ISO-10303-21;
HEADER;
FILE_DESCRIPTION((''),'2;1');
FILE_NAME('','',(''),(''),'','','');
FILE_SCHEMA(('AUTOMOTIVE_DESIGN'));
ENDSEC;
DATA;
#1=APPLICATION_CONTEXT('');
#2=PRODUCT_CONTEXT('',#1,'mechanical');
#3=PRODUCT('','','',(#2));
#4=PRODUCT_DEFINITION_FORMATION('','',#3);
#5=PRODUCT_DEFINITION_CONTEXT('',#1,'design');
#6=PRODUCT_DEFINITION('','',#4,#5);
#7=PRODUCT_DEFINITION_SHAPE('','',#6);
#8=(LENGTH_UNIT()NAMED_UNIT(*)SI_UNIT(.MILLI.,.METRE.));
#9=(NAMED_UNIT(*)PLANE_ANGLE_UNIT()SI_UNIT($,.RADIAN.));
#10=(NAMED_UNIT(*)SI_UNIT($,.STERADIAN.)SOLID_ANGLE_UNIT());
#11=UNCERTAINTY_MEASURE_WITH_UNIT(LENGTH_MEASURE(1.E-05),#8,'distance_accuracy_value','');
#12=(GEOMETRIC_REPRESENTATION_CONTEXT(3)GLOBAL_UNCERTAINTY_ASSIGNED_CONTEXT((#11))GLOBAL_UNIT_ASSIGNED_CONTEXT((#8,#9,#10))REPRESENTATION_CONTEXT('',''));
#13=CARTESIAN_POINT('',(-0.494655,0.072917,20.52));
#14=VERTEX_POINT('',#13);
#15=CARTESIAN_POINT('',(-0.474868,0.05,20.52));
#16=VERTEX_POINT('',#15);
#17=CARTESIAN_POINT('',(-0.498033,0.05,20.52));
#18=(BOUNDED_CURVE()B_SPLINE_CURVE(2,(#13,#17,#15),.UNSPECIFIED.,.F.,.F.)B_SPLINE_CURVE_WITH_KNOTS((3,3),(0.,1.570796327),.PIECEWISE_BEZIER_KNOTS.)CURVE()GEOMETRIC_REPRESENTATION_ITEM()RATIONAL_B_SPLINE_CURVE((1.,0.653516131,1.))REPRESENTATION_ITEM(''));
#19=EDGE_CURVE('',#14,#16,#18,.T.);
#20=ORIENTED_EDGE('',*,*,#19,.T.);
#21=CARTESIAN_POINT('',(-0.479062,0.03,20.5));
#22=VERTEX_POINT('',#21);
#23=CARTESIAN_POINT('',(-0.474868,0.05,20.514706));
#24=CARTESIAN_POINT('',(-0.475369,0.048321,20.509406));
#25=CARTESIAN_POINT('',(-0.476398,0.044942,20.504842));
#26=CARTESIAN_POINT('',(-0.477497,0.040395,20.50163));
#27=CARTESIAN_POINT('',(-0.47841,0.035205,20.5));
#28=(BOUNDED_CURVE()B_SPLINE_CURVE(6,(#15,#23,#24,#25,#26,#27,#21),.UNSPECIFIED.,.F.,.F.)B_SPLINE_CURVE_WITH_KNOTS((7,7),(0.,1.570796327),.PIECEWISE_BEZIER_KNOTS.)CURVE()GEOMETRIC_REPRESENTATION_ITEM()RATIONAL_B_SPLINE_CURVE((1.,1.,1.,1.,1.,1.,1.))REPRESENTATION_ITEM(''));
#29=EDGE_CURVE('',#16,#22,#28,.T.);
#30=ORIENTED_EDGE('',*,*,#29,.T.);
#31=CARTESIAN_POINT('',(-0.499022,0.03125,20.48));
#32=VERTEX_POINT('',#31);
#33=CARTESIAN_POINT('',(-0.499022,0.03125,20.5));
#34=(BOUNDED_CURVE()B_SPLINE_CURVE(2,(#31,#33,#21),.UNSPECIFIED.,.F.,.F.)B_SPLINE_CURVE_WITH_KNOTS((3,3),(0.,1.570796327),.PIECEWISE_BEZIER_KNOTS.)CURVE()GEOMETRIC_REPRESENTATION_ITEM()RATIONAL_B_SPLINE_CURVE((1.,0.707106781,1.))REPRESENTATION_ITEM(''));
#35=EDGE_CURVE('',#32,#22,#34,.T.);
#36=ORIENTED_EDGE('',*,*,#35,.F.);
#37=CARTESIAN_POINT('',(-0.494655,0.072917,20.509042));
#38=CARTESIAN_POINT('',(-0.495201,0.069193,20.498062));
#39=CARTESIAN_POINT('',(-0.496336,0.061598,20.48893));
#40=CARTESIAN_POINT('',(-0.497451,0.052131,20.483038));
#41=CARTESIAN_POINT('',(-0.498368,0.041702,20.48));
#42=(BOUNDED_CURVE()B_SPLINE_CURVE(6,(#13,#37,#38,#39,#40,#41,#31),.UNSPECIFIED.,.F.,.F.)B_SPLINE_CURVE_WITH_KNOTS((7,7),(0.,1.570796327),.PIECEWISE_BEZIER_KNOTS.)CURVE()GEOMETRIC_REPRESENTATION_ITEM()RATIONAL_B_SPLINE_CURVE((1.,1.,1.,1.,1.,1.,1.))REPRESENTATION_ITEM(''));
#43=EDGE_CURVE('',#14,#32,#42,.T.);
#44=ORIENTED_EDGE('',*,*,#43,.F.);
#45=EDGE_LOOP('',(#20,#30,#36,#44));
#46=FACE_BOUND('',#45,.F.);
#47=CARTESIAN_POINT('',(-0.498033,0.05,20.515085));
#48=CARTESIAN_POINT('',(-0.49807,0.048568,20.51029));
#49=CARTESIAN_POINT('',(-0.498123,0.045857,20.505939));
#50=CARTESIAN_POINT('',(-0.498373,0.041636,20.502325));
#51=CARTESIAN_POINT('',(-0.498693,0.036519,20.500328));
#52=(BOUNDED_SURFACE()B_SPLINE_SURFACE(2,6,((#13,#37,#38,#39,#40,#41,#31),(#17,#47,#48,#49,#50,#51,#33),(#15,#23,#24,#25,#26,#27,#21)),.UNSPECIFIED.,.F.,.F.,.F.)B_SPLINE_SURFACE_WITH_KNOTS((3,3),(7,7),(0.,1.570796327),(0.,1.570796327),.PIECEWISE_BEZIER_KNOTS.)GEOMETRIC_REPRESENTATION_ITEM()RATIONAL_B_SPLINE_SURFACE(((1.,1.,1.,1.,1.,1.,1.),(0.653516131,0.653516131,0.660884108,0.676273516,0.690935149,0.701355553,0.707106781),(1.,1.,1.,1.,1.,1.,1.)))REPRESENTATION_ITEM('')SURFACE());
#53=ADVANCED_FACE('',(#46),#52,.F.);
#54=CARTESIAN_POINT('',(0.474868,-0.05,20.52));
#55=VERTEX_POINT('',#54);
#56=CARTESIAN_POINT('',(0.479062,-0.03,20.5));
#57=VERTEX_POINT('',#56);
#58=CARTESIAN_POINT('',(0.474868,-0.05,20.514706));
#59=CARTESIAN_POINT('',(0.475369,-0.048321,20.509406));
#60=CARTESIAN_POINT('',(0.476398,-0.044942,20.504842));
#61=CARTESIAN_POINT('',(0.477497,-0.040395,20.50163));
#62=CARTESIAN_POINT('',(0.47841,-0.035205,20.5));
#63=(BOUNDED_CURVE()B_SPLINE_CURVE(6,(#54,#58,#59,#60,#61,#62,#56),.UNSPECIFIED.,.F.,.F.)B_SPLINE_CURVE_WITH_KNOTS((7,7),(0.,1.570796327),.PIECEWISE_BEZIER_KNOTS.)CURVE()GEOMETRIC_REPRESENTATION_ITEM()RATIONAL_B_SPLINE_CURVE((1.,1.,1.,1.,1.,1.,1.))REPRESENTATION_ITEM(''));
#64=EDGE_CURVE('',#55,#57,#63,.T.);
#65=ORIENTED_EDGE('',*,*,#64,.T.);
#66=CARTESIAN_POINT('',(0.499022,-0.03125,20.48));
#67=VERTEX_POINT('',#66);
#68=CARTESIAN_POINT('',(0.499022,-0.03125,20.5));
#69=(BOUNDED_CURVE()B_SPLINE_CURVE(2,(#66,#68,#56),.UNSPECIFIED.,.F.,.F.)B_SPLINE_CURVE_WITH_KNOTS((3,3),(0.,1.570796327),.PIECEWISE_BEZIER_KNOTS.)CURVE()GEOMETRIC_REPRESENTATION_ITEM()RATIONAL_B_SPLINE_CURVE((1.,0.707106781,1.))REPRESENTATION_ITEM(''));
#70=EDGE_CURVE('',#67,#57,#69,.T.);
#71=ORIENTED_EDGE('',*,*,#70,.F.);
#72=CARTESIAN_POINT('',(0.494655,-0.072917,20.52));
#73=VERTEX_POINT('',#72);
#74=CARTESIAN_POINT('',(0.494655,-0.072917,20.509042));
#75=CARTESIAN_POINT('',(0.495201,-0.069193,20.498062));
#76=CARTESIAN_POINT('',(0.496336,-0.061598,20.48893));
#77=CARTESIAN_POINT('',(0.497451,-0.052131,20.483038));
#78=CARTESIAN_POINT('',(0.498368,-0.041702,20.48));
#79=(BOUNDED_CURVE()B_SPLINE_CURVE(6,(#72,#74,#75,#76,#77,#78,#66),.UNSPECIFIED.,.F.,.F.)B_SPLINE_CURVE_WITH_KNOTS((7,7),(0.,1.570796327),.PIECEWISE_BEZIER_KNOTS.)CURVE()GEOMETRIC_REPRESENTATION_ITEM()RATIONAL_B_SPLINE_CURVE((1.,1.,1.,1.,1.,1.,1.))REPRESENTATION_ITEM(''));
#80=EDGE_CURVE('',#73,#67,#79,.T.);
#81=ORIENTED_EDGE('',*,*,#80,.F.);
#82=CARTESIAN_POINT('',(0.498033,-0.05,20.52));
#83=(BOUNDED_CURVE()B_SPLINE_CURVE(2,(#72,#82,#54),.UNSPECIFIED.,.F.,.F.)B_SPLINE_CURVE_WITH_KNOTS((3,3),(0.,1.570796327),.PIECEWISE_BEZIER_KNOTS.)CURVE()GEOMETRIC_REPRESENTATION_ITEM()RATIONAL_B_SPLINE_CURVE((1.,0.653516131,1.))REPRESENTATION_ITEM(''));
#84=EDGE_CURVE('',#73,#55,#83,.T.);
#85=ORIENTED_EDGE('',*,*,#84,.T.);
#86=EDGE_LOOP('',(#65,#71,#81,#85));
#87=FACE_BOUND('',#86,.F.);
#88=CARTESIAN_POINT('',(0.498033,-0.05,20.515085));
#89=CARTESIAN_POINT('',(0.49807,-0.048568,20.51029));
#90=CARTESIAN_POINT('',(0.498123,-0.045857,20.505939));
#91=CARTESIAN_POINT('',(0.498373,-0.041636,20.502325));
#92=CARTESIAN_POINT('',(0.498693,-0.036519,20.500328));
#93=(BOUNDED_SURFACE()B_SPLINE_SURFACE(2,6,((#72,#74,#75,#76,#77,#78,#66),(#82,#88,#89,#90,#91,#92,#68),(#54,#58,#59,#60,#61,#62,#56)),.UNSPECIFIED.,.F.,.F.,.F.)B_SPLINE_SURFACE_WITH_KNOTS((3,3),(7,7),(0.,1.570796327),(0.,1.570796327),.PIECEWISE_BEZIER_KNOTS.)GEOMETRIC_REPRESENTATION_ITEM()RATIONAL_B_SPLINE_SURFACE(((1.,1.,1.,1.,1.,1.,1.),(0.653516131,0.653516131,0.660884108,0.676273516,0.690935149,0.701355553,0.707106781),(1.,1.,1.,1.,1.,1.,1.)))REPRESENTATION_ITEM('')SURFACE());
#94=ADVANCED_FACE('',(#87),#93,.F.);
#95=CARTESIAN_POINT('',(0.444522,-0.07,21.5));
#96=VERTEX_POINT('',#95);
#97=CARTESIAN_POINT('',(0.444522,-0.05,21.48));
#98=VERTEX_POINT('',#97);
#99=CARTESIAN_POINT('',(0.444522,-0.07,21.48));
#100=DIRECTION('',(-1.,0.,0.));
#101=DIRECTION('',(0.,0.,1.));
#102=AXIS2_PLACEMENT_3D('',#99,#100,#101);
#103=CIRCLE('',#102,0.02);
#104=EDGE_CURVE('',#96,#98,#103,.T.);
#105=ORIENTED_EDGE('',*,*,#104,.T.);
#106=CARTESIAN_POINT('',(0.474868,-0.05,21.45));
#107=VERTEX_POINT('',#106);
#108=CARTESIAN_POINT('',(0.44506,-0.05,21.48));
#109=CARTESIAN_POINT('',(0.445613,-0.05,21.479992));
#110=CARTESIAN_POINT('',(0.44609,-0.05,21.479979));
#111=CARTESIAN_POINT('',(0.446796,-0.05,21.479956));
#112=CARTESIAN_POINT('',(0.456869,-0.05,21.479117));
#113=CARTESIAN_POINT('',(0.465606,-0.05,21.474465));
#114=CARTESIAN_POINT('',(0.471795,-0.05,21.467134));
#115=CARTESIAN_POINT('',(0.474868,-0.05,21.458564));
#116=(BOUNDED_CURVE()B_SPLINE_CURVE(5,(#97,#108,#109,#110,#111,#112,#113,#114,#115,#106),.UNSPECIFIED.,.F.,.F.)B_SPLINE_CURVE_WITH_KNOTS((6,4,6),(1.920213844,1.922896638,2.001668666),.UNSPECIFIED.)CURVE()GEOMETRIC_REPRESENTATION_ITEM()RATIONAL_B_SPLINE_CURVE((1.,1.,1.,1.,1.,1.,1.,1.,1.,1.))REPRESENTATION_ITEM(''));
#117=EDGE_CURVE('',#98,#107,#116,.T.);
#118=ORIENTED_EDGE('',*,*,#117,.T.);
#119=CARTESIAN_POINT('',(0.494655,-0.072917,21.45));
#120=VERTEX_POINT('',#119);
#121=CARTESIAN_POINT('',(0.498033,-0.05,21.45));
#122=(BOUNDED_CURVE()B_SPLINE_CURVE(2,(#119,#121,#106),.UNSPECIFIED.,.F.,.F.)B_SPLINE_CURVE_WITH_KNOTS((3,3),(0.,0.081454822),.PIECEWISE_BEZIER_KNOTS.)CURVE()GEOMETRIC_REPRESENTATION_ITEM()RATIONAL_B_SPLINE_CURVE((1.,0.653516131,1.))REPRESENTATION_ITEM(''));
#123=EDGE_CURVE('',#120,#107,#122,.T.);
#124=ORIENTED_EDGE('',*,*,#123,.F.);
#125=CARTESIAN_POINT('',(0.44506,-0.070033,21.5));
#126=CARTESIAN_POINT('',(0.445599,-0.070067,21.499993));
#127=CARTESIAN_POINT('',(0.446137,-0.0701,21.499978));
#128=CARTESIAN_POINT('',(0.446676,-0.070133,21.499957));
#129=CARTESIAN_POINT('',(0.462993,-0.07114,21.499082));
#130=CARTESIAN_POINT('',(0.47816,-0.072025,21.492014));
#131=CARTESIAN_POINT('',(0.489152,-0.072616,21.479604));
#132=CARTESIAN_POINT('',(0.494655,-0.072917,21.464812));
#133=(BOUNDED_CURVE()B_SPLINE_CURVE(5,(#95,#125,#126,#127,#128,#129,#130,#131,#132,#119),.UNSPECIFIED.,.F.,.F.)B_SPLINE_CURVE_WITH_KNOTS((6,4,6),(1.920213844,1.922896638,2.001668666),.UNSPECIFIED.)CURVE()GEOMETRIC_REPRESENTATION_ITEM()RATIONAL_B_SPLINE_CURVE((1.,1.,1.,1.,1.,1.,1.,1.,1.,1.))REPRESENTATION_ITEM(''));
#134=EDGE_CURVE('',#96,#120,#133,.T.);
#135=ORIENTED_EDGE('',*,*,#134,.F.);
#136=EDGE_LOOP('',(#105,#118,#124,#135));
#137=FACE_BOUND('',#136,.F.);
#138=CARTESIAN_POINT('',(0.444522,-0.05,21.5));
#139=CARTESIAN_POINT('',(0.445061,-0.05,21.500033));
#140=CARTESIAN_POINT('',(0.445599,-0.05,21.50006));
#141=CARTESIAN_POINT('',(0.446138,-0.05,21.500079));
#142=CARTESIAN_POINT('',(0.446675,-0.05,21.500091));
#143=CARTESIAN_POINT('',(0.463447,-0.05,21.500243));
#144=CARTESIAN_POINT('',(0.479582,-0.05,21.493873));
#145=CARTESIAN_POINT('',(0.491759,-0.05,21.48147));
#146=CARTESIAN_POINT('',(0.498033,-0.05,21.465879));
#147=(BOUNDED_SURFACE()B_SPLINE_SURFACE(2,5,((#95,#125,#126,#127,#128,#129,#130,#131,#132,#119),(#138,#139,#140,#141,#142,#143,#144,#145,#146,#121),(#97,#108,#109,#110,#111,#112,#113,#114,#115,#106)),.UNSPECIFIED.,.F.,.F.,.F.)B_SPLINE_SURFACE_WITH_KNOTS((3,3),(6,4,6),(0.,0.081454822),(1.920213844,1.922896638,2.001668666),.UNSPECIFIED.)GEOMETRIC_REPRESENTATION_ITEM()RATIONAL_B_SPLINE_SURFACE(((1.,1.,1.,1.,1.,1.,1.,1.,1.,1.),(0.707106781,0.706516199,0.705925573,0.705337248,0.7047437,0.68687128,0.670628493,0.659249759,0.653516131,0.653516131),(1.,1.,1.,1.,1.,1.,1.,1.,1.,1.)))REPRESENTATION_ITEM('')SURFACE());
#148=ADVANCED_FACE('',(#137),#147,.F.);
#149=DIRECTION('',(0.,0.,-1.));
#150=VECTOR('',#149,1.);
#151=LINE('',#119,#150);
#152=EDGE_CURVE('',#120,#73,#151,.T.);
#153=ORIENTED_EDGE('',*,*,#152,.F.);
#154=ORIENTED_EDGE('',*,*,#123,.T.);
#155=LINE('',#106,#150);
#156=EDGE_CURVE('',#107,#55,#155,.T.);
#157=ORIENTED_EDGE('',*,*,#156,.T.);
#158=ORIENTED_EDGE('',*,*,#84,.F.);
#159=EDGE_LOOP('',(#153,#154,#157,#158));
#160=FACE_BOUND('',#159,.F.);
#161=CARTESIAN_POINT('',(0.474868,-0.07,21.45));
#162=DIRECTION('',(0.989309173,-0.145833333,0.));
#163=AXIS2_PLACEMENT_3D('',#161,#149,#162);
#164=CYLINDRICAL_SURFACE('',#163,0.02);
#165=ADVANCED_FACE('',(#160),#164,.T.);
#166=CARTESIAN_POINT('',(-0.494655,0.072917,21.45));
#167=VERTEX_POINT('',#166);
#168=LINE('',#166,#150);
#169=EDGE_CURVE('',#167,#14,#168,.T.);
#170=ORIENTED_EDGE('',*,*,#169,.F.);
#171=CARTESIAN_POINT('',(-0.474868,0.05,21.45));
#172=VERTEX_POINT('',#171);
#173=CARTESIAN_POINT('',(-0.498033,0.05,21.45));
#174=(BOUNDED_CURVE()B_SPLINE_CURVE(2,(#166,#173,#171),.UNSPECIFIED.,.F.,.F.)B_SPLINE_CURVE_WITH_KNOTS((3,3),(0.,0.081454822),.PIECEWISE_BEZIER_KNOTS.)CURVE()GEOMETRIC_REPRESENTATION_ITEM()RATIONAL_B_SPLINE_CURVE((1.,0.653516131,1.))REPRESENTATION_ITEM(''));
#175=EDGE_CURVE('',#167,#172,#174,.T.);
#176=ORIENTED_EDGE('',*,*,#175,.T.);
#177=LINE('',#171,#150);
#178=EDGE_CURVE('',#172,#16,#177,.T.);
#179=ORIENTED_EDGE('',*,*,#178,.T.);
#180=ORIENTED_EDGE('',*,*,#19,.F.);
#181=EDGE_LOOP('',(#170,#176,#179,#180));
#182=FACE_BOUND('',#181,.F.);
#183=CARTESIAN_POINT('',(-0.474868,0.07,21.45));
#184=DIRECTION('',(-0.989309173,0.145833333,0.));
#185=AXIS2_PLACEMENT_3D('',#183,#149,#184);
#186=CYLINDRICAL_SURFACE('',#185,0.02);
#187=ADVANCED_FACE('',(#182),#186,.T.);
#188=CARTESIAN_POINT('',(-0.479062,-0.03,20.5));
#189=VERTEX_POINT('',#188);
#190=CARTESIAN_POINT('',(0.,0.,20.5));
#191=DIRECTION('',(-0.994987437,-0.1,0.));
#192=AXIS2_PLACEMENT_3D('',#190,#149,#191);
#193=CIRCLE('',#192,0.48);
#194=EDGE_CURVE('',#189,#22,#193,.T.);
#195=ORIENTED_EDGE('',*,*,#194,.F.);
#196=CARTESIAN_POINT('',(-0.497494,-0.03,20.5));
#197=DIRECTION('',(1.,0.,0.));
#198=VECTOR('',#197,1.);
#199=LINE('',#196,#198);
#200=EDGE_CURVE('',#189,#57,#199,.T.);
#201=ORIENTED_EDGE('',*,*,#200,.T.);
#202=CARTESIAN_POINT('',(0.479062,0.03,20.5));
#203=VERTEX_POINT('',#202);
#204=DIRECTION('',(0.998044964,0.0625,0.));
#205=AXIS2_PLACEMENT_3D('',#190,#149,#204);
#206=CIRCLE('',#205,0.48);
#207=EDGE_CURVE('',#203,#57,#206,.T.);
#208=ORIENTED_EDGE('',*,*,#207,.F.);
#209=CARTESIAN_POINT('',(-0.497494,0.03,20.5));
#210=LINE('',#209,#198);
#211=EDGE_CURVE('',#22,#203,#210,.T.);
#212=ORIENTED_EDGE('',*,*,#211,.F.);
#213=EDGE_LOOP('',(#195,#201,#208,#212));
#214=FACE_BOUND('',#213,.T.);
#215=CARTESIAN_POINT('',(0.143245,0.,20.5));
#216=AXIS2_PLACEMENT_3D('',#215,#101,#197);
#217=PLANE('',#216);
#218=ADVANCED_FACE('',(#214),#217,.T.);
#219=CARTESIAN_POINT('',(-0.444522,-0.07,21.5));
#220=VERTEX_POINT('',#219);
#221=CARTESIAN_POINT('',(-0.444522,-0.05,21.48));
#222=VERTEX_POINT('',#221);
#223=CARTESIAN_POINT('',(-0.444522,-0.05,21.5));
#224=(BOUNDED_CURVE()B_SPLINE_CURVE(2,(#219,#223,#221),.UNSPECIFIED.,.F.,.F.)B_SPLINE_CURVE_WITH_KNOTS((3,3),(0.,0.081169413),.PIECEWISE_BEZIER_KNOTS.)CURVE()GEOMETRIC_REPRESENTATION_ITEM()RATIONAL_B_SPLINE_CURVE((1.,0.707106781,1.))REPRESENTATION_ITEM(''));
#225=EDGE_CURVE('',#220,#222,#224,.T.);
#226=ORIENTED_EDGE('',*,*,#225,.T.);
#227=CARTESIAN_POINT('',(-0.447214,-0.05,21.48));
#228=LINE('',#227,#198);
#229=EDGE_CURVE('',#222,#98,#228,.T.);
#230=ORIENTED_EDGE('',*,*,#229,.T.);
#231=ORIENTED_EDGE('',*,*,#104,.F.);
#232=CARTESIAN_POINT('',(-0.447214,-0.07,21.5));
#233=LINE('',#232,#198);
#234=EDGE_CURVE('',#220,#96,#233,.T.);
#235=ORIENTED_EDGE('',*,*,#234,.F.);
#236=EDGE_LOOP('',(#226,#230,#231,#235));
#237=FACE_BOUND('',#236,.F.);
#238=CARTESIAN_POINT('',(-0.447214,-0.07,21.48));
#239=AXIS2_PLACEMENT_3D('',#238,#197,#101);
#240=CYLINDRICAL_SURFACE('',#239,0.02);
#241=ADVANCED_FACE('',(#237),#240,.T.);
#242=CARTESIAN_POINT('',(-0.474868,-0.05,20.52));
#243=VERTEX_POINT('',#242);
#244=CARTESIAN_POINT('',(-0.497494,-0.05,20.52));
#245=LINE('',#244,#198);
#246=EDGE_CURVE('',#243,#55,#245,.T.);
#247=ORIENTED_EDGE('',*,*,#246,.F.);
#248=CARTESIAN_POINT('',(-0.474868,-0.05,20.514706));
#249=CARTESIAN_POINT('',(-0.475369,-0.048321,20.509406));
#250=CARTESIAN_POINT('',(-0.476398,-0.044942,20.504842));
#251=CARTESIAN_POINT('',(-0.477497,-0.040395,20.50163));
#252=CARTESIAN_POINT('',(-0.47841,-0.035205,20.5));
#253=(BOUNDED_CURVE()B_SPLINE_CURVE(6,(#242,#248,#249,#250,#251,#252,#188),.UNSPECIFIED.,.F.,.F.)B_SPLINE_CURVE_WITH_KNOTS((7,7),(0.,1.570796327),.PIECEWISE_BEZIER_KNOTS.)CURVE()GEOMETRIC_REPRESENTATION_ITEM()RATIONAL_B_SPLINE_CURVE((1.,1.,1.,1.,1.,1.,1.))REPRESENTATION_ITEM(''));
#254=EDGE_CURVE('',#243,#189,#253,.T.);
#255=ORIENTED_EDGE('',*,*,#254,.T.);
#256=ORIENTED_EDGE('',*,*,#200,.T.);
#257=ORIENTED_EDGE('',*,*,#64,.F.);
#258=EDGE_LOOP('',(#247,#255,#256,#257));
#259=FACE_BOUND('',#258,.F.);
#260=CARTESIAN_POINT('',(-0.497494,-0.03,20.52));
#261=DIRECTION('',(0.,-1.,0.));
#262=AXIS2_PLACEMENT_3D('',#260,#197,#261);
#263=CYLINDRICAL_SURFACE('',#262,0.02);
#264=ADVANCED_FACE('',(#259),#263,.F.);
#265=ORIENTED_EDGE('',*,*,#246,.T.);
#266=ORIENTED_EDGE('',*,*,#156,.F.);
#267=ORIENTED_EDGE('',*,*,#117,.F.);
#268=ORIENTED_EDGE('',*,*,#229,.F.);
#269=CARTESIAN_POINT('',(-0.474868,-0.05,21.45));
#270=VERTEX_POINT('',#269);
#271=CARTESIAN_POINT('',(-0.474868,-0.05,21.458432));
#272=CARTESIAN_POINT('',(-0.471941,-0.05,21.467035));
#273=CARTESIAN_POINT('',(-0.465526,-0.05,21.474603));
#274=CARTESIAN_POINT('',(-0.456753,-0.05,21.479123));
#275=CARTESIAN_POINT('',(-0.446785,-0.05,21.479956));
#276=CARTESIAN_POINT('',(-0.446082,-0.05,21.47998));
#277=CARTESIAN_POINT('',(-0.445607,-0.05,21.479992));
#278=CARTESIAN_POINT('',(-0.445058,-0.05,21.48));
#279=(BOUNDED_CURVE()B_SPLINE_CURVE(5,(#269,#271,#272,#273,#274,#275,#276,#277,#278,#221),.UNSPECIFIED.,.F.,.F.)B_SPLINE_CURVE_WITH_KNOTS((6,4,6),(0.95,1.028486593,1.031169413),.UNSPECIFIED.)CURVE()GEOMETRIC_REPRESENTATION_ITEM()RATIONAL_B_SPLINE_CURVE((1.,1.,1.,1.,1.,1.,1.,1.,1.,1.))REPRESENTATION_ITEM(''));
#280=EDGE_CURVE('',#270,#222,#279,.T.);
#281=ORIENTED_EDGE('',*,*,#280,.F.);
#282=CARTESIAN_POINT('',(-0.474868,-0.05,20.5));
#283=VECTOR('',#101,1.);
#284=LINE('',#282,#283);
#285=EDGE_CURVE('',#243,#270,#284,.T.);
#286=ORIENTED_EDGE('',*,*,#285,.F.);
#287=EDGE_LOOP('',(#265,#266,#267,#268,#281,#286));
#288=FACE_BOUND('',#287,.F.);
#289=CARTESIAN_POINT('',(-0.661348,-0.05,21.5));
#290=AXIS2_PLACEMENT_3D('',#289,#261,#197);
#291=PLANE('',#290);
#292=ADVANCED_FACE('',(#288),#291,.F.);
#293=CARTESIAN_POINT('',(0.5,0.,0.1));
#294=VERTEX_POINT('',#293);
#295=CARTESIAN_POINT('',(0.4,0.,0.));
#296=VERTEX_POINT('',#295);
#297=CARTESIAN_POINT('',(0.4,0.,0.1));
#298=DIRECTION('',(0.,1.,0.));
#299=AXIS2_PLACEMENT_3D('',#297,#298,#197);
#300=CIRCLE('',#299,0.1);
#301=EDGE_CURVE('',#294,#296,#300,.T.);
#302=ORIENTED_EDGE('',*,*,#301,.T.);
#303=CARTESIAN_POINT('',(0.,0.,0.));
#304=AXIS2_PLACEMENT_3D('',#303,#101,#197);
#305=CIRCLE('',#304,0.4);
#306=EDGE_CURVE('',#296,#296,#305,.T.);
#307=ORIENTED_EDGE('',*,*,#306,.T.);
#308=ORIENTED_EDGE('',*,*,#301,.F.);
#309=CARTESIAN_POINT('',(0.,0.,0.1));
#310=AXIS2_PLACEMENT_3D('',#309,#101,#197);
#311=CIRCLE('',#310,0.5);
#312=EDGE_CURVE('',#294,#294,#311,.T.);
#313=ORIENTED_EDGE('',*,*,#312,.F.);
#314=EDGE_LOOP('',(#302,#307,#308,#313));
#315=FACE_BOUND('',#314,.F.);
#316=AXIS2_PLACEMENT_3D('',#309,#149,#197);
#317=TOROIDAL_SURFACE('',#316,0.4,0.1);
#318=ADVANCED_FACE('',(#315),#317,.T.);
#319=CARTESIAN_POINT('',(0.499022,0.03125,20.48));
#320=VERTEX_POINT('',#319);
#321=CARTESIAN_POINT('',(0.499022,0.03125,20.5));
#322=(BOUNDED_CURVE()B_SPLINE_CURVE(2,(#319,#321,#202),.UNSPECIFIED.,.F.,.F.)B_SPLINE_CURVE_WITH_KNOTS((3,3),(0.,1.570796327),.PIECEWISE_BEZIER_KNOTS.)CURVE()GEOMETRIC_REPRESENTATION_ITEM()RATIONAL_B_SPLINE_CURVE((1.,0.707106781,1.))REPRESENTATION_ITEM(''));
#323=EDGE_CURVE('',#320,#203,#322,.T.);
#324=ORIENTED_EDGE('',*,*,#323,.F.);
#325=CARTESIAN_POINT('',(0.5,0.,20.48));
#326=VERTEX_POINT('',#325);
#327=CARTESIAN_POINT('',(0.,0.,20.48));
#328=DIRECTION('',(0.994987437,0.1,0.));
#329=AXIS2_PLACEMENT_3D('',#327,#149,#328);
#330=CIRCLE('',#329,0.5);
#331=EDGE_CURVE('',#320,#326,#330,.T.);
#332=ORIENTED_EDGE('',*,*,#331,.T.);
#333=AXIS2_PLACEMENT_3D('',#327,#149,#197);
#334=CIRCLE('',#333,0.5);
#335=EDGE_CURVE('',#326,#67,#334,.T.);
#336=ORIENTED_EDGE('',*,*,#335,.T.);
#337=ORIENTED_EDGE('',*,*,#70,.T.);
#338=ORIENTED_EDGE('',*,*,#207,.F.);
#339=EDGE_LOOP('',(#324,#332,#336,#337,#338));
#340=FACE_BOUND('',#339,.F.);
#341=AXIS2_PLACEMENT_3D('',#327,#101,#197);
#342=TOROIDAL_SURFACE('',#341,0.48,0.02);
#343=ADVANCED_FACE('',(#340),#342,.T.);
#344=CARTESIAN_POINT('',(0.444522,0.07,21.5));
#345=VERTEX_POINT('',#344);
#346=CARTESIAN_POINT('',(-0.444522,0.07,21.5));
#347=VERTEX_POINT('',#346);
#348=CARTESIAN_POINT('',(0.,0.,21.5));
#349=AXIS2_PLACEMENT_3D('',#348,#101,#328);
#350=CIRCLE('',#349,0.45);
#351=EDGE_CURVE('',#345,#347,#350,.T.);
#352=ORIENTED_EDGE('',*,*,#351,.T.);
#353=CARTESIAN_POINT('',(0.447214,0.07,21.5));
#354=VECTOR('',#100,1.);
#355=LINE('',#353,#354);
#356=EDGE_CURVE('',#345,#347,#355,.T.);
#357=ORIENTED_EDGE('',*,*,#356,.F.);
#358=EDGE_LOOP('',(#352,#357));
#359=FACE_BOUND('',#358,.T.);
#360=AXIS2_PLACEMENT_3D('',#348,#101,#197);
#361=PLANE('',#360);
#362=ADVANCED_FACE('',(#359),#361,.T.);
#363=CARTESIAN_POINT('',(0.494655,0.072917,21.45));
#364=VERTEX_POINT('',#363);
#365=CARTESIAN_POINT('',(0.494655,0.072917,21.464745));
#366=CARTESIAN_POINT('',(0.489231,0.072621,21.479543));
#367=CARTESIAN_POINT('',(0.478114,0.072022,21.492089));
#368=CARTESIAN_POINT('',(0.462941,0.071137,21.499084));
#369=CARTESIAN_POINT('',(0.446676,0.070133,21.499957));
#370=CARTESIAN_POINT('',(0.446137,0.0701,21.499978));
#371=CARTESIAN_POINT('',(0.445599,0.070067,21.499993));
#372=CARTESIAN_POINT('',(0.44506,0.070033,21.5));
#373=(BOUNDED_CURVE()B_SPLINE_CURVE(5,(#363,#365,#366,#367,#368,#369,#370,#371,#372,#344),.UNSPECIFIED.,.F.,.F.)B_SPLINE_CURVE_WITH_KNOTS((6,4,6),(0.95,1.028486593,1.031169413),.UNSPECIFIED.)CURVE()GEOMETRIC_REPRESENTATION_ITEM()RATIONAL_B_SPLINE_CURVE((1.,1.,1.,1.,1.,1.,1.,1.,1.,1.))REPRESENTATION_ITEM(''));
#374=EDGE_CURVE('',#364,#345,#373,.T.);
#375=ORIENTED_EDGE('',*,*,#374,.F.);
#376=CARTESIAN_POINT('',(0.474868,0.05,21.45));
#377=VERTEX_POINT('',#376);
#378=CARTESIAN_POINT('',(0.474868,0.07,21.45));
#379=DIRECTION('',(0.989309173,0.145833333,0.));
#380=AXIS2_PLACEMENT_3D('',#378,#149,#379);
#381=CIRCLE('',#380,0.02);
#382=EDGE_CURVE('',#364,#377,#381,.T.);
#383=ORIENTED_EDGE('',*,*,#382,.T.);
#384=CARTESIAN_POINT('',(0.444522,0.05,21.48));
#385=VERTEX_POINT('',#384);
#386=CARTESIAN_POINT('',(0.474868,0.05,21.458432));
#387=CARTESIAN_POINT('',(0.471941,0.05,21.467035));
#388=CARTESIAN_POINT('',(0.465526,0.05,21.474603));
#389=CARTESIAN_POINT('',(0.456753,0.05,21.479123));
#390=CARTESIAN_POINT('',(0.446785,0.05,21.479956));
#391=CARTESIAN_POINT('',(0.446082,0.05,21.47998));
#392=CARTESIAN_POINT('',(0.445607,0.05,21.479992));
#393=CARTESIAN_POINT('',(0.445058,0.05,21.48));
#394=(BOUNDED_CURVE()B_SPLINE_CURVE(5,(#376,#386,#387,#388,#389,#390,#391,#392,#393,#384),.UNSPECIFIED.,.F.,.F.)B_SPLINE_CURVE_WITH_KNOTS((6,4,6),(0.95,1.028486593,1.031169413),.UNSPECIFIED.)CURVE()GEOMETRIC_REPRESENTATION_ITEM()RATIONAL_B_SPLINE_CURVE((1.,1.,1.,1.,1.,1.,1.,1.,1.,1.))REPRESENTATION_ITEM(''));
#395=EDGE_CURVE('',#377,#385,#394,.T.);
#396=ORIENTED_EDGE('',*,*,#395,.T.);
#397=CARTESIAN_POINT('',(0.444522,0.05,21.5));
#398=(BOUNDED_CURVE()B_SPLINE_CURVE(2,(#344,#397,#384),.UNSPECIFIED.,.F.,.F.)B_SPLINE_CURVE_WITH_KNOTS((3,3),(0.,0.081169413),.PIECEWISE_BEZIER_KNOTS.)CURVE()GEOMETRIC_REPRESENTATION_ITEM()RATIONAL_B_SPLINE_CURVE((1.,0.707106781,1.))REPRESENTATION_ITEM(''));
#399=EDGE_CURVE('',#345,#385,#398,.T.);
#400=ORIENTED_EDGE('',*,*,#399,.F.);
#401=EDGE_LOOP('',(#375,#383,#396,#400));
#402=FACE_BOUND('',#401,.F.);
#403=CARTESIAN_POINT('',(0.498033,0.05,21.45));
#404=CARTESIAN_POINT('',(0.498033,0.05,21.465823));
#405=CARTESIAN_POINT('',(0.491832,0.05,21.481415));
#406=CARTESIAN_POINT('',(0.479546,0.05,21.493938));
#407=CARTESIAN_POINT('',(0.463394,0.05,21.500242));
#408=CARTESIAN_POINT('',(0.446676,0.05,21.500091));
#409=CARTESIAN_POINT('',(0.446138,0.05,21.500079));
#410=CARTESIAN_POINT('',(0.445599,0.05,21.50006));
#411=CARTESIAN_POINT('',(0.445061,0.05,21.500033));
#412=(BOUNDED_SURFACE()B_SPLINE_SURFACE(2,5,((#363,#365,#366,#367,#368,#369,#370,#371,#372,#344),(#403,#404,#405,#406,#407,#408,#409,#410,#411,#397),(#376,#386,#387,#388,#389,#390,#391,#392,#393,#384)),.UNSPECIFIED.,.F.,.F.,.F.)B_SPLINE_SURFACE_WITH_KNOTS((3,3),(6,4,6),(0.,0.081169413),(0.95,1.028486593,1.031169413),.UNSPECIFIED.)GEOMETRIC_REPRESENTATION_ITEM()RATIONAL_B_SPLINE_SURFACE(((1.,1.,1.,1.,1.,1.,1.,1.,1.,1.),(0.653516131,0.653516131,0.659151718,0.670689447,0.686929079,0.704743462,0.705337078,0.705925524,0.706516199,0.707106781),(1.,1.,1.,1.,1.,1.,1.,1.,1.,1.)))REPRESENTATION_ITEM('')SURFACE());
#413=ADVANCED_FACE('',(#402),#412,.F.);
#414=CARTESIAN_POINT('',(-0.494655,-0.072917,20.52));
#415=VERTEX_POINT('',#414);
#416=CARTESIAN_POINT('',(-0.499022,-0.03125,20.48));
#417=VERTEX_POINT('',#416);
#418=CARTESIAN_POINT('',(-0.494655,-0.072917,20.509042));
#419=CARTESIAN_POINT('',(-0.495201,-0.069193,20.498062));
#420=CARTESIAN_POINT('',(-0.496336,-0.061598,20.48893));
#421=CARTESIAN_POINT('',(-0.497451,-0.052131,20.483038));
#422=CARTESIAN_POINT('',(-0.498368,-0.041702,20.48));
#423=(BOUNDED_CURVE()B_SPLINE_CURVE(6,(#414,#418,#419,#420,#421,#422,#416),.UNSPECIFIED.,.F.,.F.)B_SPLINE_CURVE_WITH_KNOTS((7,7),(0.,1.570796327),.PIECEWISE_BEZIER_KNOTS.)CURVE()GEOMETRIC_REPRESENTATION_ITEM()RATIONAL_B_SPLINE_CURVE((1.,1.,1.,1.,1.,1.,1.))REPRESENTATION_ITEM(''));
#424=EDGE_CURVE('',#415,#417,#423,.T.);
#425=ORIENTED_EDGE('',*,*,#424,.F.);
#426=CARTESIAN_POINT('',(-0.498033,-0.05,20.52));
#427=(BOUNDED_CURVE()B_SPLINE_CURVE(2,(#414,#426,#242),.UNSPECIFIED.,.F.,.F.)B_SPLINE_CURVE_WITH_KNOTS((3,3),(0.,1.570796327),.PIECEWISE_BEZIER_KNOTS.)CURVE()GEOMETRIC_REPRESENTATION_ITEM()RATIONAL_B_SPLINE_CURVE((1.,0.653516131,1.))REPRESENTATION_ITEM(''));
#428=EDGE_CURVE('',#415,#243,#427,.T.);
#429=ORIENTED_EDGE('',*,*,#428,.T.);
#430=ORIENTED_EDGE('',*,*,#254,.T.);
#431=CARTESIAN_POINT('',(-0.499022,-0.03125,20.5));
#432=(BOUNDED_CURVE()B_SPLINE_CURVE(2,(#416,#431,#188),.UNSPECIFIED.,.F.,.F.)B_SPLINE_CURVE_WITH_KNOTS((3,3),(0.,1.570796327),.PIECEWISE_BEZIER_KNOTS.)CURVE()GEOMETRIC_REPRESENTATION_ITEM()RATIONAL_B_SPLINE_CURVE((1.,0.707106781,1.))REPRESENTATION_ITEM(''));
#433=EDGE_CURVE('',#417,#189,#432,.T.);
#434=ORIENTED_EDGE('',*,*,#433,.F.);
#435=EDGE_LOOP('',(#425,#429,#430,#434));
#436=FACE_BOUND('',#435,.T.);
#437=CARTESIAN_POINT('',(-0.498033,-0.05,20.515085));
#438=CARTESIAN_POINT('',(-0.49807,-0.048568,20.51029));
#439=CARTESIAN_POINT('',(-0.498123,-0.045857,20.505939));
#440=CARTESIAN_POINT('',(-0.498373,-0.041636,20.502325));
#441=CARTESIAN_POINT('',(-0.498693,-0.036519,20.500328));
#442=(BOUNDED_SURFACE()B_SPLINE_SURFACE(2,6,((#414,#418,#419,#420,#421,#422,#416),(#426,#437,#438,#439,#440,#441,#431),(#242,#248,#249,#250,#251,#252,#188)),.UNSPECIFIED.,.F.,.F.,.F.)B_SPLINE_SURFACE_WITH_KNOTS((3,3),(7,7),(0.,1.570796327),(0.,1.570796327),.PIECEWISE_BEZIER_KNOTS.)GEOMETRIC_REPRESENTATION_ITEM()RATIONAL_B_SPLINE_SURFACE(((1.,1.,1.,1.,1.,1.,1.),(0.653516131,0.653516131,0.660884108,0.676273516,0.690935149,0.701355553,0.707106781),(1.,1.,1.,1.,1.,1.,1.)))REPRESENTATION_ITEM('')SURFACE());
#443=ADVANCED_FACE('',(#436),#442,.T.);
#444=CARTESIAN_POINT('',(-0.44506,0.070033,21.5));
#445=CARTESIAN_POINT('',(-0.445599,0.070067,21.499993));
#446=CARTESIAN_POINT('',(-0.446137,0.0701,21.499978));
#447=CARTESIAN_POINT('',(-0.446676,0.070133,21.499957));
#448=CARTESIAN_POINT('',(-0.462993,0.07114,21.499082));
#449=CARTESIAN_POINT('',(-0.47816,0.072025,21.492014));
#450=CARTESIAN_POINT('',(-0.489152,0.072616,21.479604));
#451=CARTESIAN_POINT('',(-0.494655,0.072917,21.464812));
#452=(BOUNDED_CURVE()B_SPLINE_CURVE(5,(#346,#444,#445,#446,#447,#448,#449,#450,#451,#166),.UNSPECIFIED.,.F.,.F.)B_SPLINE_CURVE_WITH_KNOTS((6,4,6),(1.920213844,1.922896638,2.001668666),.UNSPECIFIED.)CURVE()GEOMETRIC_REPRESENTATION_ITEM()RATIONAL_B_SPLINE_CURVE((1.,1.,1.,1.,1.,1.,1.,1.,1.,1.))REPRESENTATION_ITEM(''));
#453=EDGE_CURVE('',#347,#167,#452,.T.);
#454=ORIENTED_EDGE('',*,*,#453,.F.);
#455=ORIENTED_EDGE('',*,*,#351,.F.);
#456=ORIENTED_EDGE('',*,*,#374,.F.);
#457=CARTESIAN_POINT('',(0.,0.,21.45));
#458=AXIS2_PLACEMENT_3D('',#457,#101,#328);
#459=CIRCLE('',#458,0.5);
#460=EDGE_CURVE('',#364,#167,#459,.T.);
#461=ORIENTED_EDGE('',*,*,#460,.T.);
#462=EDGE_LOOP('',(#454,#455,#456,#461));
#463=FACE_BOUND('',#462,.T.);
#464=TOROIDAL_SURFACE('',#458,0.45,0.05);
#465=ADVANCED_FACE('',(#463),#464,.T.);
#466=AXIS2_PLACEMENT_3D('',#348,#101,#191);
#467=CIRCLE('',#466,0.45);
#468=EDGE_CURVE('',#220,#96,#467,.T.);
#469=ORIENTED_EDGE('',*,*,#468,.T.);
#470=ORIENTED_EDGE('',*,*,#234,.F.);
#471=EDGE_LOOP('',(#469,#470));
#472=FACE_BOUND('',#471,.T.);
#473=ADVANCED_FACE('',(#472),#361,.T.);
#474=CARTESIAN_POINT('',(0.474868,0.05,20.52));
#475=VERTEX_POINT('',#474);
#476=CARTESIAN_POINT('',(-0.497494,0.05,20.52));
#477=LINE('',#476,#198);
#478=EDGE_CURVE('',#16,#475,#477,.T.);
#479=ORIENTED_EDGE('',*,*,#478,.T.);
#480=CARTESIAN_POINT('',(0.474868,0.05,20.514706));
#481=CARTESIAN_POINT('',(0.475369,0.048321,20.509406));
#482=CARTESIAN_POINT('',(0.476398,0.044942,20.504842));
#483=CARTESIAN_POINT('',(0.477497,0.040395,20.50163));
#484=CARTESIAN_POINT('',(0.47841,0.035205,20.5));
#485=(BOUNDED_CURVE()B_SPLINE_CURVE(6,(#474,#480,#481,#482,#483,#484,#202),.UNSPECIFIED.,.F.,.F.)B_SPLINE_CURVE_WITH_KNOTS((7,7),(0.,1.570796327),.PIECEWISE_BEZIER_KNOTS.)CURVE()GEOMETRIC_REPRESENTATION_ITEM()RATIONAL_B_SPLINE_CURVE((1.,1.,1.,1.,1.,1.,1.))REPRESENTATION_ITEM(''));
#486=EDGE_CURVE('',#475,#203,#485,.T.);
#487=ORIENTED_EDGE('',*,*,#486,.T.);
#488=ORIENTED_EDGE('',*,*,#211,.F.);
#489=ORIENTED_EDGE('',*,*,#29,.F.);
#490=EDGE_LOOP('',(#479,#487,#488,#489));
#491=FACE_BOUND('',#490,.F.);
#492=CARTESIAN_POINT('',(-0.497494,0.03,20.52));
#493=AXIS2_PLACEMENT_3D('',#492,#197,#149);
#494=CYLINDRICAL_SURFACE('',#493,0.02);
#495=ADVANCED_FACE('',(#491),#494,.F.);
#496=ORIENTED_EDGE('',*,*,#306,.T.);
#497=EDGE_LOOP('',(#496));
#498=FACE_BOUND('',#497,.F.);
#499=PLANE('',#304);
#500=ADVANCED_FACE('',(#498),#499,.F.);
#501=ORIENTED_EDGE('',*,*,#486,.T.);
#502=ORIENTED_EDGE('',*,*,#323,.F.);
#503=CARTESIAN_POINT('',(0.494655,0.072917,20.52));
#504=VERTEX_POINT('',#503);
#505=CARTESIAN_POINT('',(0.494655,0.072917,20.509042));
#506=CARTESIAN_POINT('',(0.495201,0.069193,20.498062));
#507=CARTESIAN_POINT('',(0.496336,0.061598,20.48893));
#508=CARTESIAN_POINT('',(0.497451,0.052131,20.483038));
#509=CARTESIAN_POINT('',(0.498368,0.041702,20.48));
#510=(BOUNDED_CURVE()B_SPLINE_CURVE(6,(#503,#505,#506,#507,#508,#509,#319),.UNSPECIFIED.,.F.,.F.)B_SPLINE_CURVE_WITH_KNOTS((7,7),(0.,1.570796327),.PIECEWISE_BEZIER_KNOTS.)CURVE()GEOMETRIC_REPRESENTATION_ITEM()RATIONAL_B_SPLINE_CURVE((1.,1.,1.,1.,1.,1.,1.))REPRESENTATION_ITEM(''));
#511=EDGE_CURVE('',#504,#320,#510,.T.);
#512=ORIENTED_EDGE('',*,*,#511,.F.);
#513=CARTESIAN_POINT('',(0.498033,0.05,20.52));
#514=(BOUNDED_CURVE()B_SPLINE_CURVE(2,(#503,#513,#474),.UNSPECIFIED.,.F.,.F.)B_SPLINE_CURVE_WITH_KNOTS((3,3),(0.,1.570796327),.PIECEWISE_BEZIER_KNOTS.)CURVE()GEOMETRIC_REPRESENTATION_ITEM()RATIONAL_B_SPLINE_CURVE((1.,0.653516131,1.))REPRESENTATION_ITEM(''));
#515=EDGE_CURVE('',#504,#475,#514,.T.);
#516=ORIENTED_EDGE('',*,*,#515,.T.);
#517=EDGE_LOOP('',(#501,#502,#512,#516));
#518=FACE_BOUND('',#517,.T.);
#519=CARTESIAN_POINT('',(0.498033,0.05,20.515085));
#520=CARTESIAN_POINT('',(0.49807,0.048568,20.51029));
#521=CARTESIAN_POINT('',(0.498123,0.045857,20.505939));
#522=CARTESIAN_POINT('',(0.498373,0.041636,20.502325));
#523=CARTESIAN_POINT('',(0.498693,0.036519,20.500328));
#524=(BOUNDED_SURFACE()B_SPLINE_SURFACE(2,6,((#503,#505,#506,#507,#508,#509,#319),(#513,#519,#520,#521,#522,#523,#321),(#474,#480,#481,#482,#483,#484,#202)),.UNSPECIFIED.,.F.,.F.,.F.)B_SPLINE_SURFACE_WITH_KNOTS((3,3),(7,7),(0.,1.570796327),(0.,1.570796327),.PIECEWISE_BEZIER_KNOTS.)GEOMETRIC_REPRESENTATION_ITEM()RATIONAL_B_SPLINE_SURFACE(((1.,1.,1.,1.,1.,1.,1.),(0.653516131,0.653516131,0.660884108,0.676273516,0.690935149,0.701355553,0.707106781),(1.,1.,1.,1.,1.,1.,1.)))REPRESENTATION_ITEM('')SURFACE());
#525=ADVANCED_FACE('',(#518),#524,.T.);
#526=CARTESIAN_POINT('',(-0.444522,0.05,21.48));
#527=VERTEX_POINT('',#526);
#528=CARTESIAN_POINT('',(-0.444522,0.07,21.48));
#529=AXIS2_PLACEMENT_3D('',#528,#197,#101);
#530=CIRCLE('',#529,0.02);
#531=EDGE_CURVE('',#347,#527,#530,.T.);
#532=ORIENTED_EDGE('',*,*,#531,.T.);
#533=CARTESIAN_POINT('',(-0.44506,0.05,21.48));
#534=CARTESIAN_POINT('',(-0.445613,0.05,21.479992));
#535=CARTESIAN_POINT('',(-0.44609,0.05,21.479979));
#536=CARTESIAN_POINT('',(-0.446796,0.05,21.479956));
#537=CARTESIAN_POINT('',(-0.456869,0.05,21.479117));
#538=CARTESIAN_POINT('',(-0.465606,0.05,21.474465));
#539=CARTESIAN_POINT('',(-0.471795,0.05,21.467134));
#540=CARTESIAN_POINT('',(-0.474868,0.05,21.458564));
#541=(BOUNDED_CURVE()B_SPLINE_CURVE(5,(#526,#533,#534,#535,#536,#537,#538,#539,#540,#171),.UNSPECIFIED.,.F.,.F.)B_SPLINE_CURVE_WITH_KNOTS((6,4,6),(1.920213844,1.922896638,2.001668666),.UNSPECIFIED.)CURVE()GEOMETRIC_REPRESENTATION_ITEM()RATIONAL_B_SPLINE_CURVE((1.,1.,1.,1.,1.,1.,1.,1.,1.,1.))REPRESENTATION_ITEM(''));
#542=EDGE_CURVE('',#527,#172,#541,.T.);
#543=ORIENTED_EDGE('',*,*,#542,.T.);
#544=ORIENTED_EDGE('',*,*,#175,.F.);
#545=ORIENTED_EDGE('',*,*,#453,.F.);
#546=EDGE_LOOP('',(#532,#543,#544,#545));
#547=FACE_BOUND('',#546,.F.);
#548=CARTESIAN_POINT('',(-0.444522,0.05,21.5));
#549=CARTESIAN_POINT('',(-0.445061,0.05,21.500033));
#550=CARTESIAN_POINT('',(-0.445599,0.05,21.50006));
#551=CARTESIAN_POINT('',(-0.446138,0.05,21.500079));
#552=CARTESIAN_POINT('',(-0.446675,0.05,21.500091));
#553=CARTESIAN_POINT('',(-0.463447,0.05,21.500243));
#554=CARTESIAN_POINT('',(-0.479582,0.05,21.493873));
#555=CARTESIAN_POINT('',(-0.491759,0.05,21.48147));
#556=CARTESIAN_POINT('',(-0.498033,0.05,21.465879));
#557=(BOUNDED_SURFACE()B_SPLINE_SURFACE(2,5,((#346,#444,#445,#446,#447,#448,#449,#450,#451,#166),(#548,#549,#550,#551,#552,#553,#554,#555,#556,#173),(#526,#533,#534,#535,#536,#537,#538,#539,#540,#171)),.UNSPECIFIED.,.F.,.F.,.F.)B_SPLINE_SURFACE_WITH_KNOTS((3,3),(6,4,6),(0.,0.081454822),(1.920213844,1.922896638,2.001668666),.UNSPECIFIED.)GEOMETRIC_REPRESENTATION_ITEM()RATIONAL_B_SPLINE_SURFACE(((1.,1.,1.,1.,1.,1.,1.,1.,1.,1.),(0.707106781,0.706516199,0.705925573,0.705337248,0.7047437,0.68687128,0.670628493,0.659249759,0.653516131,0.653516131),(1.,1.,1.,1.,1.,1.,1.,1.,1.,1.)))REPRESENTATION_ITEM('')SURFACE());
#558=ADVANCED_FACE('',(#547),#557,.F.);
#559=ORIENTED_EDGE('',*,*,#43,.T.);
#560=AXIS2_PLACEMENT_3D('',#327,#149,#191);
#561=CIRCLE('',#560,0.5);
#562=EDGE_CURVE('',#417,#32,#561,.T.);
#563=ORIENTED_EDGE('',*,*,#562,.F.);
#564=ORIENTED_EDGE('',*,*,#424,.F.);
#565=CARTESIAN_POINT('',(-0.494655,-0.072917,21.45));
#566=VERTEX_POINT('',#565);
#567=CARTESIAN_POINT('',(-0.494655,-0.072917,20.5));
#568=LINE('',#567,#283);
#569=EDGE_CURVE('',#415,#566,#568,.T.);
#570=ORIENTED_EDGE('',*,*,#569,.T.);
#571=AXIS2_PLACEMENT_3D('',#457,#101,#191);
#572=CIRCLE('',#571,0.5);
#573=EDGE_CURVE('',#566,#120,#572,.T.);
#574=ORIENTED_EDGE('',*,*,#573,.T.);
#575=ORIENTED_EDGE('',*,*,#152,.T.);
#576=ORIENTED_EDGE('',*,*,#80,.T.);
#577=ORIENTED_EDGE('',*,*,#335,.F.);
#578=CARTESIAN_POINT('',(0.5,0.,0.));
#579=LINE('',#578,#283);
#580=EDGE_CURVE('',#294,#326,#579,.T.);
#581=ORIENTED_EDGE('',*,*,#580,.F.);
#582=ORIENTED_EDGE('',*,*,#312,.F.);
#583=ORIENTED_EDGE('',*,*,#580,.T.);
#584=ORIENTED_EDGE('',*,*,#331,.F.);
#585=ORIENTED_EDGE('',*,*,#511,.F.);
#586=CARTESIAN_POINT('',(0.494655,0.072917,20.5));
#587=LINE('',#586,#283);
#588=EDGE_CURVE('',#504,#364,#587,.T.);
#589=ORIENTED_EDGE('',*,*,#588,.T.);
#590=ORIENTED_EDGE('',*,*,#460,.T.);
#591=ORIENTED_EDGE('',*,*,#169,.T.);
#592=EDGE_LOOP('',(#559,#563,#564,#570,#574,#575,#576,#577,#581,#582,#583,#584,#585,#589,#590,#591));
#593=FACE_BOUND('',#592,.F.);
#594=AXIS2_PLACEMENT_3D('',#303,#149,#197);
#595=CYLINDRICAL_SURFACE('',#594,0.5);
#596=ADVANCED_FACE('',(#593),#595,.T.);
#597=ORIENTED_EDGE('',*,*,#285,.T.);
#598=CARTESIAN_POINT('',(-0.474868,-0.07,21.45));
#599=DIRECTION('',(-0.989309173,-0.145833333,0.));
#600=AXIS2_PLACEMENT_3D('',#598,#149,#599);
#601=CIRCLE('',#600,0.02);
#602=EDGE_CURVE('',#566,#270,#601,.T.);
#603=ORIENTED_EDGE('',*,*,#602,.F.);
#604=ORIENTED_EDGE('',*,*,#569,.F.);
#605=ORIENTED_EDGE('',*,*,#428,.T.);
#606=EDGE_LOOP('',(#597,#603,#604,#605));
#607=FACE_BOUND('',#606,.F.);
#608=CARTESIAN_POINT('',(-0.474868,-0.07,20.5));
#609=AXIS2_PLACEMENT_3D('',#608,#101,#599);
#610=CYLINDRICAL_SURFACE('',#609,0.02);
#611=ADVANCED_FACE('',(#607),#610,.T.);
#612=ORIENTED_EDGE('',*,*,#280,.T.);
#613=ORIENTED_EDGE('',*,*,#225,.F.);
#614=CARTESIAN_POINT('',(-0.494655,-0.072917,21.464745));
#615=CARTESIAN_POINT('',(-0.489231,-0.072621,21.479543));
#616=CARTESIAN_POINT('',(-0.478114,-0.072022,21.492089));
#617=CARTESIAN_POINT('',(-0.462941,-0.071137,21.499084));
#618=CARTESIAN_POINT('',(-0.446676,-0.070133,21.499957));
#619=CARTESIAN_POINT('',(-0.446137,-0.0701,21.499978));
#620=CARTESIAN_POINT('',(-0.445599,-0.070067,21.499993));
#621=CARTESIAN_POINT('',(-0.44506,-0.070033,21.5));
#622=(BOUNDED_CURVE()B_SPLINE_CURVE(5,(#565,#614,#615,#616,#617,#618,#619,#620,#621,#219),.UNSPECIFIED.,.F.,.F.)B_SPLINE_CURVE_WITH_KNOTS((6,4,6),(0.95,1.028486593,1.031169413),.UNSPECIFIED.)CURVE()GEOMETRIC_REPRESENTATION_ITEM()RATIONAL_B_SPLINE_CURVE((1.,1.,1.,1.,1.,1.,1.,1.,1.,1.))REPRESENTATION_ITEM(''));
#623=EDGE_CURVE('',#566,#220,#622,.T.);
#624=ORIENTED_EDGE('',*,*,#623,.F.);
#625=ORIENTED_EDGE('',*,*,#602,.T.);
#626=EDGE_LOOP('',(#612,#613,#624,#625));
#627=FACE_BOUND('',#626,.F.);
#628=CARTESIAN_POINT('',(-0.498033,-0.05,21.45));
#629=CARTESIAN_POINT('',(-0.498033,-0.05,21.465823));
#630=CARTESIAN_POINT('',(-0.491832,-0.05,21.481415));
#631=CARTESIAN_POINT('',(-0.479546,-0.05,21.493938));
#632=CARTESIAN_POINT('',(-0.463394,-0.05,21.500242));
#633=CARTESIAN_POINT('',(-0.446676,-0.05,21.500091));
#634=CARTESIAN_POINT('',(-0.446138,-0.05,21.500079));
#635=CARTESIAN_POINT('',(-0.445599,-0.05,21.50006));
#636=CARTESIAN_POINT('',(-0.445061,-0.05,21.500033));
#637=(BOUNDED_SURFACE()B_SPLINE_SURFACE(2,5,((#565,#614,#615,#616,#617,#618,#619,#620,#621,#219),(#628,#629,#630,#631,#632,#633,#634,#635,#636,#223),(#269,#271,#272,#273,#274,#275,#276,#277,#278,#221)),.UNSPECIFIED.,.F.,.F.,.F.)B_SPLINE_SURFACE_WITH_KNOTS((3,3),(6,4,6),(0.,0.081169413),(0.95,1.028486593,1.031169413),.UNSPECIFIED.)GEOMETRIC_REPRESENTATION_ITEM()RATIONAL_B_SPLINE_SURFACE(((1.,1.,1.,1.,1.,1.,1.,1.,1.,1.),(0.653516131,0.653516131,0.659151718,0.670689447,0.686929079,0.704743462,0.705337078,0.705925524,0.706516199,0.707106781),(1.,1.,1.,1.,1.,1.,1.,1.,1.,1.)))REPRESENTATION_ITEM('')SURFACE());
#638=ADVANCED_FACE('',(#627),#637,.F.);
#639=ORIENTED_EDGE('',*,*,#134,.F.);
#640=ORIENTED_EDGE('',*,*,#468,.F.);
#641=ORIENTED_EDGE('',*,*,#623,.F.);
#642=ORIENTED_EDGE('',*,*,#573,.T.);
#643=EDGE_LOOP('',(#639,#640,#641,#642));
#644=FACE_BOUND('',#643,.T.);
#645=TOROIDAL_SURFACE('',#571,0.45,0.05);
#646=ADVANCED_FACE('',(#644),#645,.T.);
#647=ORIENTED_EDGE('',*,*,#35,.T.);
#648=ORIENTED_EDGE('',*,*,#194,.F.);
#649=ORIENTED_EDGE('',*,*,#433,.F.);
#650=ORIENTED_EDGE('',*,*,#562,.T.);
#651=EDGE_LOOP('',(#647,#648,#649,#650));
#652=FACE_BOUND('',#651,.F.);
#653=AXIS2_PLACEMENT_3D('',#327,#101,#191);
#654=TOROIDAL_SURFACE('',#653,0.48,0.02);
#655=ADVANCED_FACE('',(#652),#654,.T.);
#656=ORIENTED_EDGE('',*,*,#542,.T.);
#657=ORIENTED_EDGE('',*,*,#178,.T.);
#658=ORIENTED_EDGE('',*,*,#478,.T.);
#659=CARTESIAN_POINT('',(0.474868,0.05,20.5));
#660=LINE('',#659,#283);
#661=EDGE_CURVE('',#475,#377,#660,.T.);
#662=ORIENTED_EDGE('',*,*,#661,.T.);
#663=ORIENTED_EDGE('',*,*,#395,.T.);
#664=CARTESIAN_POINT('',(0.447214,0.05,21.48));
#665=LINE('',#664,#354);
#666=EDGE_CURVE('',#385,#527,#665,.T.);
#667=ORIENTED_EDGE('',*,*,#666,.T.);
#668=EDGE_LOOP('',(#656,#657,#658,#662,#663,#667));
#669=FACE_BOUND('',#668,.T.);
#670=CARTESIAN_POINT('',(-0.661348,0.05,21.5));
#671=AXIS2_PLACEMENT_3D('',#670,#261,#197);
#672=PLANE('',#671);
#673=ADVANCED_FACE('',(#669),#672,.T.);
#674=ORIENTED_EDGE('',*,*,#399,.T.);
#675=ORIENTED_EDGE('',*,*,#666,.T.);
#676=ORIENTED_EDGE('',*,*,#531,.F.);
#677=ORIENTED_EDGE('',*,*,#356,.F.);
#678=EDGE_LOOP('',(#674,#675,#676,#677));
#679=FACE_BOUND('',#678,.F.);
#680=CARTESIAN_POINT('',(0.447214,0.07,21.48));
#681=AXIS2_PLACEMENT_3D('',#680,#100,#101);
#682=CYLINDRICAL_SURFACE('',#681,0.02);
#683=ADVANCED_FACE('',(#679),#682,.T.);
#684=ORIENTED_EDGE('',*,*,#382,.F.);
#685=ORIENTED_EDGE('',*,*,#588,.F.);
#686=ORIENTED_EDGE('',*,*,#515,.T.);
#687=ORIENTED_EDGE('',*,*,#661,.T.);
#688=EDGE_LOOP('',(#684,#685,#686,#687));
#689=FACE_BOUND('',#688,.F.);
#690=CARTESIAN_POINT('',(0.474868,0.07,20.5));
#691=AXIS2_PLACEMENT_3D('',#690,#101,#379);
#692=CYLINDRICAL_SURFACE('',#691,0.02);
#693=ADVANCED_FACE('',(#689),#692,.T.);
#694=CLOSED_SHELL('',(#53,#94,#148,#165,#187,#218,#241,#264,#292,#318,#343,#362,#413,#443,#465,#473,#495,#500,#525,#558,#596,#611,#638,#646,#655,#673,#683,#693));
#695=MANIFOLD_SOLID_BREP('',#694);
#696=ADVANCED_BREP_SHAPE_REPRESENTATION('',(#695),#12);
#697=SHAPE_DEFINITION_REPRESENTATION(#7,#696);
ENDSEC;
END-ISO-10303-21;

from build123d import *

# Parameters (mm, degrees)
SKETCH1_R           = 0.5
BOSS_EXTRUDE1_DEPTH = 21.5
SKETCH2_W           = 1.609185638
SKETCH2_H           = 0.1
CUT_EXTRUDE1_DEPTH  = 1
FILLET1_R           = 0.1
FILLET2_R           = 0.05
FILLET3_R           = 0.02


with BuildPart() as part:
    # Sketch1 → Boss-Extrude1 (new body)
    with BuildSketch(Plane.XY):
        Circle(SKETCH1_R)
    extrude(amount=BOSS_EXTRUDE1_DEPTH)

    # Sketch2 → Cut-Extrude1 (cut)
    with BuildSketch(Plane.XY.offset(21.5)):
        with Locations((0.143244603, 0)):
            Rectangle(SKETCH2_W, SKETCH2_H)
    extrude(amount=-CUT_EXTRUDE1_DEPTH, mode=Mode.SUBTRACT)

    # Fillet1
    fillet1_edges = [part.edges().sort_by_distance(p)[0] for p in [
        (-0.5, 0, 0),
    ]]
    fillet(fillet1_edges, radius=FILLET1_R)

    # Fillet2
    fillet2_edges = [part.edges().sort_by_distance(p)[0] for p in [
        (0, 0.5, 21.5),
        (0, -0.5, 21.5),
    ]]
    fillet(fillet2_edges, radius=FILLET2_R)

    # Fillet3
    fillet3_edges = [part.edges().sort_by_distance(p)[0] for p in [
        (0, 0.05, 20.5),
        (-0.497493719, 0.05, 20.975),
        (0, -0.05, 20.5),
        (0.497493719, -0.05, 20.975),
        (0, -0.05, 21.5),
        (-0.497493719, -0.05, 20.975),
        (-0.482618709, -0.05, 21.485508179),
        (0.482720177, -0.05, 21.485407837),
        (0.497493719, 0.05, 20.975),
        (0, 0.05, 21.5),
        (0.482618709, 0.05, 21.485508179),
        (-0.482720177, 0.05, 21.485407837),
        (0.499373037, -0.025031388, 20.5),
        (-0.5, 0, 20.5),
    ]]
    fillet(fillet3_edges, radius=FILLET3_R)


solid = part.part
